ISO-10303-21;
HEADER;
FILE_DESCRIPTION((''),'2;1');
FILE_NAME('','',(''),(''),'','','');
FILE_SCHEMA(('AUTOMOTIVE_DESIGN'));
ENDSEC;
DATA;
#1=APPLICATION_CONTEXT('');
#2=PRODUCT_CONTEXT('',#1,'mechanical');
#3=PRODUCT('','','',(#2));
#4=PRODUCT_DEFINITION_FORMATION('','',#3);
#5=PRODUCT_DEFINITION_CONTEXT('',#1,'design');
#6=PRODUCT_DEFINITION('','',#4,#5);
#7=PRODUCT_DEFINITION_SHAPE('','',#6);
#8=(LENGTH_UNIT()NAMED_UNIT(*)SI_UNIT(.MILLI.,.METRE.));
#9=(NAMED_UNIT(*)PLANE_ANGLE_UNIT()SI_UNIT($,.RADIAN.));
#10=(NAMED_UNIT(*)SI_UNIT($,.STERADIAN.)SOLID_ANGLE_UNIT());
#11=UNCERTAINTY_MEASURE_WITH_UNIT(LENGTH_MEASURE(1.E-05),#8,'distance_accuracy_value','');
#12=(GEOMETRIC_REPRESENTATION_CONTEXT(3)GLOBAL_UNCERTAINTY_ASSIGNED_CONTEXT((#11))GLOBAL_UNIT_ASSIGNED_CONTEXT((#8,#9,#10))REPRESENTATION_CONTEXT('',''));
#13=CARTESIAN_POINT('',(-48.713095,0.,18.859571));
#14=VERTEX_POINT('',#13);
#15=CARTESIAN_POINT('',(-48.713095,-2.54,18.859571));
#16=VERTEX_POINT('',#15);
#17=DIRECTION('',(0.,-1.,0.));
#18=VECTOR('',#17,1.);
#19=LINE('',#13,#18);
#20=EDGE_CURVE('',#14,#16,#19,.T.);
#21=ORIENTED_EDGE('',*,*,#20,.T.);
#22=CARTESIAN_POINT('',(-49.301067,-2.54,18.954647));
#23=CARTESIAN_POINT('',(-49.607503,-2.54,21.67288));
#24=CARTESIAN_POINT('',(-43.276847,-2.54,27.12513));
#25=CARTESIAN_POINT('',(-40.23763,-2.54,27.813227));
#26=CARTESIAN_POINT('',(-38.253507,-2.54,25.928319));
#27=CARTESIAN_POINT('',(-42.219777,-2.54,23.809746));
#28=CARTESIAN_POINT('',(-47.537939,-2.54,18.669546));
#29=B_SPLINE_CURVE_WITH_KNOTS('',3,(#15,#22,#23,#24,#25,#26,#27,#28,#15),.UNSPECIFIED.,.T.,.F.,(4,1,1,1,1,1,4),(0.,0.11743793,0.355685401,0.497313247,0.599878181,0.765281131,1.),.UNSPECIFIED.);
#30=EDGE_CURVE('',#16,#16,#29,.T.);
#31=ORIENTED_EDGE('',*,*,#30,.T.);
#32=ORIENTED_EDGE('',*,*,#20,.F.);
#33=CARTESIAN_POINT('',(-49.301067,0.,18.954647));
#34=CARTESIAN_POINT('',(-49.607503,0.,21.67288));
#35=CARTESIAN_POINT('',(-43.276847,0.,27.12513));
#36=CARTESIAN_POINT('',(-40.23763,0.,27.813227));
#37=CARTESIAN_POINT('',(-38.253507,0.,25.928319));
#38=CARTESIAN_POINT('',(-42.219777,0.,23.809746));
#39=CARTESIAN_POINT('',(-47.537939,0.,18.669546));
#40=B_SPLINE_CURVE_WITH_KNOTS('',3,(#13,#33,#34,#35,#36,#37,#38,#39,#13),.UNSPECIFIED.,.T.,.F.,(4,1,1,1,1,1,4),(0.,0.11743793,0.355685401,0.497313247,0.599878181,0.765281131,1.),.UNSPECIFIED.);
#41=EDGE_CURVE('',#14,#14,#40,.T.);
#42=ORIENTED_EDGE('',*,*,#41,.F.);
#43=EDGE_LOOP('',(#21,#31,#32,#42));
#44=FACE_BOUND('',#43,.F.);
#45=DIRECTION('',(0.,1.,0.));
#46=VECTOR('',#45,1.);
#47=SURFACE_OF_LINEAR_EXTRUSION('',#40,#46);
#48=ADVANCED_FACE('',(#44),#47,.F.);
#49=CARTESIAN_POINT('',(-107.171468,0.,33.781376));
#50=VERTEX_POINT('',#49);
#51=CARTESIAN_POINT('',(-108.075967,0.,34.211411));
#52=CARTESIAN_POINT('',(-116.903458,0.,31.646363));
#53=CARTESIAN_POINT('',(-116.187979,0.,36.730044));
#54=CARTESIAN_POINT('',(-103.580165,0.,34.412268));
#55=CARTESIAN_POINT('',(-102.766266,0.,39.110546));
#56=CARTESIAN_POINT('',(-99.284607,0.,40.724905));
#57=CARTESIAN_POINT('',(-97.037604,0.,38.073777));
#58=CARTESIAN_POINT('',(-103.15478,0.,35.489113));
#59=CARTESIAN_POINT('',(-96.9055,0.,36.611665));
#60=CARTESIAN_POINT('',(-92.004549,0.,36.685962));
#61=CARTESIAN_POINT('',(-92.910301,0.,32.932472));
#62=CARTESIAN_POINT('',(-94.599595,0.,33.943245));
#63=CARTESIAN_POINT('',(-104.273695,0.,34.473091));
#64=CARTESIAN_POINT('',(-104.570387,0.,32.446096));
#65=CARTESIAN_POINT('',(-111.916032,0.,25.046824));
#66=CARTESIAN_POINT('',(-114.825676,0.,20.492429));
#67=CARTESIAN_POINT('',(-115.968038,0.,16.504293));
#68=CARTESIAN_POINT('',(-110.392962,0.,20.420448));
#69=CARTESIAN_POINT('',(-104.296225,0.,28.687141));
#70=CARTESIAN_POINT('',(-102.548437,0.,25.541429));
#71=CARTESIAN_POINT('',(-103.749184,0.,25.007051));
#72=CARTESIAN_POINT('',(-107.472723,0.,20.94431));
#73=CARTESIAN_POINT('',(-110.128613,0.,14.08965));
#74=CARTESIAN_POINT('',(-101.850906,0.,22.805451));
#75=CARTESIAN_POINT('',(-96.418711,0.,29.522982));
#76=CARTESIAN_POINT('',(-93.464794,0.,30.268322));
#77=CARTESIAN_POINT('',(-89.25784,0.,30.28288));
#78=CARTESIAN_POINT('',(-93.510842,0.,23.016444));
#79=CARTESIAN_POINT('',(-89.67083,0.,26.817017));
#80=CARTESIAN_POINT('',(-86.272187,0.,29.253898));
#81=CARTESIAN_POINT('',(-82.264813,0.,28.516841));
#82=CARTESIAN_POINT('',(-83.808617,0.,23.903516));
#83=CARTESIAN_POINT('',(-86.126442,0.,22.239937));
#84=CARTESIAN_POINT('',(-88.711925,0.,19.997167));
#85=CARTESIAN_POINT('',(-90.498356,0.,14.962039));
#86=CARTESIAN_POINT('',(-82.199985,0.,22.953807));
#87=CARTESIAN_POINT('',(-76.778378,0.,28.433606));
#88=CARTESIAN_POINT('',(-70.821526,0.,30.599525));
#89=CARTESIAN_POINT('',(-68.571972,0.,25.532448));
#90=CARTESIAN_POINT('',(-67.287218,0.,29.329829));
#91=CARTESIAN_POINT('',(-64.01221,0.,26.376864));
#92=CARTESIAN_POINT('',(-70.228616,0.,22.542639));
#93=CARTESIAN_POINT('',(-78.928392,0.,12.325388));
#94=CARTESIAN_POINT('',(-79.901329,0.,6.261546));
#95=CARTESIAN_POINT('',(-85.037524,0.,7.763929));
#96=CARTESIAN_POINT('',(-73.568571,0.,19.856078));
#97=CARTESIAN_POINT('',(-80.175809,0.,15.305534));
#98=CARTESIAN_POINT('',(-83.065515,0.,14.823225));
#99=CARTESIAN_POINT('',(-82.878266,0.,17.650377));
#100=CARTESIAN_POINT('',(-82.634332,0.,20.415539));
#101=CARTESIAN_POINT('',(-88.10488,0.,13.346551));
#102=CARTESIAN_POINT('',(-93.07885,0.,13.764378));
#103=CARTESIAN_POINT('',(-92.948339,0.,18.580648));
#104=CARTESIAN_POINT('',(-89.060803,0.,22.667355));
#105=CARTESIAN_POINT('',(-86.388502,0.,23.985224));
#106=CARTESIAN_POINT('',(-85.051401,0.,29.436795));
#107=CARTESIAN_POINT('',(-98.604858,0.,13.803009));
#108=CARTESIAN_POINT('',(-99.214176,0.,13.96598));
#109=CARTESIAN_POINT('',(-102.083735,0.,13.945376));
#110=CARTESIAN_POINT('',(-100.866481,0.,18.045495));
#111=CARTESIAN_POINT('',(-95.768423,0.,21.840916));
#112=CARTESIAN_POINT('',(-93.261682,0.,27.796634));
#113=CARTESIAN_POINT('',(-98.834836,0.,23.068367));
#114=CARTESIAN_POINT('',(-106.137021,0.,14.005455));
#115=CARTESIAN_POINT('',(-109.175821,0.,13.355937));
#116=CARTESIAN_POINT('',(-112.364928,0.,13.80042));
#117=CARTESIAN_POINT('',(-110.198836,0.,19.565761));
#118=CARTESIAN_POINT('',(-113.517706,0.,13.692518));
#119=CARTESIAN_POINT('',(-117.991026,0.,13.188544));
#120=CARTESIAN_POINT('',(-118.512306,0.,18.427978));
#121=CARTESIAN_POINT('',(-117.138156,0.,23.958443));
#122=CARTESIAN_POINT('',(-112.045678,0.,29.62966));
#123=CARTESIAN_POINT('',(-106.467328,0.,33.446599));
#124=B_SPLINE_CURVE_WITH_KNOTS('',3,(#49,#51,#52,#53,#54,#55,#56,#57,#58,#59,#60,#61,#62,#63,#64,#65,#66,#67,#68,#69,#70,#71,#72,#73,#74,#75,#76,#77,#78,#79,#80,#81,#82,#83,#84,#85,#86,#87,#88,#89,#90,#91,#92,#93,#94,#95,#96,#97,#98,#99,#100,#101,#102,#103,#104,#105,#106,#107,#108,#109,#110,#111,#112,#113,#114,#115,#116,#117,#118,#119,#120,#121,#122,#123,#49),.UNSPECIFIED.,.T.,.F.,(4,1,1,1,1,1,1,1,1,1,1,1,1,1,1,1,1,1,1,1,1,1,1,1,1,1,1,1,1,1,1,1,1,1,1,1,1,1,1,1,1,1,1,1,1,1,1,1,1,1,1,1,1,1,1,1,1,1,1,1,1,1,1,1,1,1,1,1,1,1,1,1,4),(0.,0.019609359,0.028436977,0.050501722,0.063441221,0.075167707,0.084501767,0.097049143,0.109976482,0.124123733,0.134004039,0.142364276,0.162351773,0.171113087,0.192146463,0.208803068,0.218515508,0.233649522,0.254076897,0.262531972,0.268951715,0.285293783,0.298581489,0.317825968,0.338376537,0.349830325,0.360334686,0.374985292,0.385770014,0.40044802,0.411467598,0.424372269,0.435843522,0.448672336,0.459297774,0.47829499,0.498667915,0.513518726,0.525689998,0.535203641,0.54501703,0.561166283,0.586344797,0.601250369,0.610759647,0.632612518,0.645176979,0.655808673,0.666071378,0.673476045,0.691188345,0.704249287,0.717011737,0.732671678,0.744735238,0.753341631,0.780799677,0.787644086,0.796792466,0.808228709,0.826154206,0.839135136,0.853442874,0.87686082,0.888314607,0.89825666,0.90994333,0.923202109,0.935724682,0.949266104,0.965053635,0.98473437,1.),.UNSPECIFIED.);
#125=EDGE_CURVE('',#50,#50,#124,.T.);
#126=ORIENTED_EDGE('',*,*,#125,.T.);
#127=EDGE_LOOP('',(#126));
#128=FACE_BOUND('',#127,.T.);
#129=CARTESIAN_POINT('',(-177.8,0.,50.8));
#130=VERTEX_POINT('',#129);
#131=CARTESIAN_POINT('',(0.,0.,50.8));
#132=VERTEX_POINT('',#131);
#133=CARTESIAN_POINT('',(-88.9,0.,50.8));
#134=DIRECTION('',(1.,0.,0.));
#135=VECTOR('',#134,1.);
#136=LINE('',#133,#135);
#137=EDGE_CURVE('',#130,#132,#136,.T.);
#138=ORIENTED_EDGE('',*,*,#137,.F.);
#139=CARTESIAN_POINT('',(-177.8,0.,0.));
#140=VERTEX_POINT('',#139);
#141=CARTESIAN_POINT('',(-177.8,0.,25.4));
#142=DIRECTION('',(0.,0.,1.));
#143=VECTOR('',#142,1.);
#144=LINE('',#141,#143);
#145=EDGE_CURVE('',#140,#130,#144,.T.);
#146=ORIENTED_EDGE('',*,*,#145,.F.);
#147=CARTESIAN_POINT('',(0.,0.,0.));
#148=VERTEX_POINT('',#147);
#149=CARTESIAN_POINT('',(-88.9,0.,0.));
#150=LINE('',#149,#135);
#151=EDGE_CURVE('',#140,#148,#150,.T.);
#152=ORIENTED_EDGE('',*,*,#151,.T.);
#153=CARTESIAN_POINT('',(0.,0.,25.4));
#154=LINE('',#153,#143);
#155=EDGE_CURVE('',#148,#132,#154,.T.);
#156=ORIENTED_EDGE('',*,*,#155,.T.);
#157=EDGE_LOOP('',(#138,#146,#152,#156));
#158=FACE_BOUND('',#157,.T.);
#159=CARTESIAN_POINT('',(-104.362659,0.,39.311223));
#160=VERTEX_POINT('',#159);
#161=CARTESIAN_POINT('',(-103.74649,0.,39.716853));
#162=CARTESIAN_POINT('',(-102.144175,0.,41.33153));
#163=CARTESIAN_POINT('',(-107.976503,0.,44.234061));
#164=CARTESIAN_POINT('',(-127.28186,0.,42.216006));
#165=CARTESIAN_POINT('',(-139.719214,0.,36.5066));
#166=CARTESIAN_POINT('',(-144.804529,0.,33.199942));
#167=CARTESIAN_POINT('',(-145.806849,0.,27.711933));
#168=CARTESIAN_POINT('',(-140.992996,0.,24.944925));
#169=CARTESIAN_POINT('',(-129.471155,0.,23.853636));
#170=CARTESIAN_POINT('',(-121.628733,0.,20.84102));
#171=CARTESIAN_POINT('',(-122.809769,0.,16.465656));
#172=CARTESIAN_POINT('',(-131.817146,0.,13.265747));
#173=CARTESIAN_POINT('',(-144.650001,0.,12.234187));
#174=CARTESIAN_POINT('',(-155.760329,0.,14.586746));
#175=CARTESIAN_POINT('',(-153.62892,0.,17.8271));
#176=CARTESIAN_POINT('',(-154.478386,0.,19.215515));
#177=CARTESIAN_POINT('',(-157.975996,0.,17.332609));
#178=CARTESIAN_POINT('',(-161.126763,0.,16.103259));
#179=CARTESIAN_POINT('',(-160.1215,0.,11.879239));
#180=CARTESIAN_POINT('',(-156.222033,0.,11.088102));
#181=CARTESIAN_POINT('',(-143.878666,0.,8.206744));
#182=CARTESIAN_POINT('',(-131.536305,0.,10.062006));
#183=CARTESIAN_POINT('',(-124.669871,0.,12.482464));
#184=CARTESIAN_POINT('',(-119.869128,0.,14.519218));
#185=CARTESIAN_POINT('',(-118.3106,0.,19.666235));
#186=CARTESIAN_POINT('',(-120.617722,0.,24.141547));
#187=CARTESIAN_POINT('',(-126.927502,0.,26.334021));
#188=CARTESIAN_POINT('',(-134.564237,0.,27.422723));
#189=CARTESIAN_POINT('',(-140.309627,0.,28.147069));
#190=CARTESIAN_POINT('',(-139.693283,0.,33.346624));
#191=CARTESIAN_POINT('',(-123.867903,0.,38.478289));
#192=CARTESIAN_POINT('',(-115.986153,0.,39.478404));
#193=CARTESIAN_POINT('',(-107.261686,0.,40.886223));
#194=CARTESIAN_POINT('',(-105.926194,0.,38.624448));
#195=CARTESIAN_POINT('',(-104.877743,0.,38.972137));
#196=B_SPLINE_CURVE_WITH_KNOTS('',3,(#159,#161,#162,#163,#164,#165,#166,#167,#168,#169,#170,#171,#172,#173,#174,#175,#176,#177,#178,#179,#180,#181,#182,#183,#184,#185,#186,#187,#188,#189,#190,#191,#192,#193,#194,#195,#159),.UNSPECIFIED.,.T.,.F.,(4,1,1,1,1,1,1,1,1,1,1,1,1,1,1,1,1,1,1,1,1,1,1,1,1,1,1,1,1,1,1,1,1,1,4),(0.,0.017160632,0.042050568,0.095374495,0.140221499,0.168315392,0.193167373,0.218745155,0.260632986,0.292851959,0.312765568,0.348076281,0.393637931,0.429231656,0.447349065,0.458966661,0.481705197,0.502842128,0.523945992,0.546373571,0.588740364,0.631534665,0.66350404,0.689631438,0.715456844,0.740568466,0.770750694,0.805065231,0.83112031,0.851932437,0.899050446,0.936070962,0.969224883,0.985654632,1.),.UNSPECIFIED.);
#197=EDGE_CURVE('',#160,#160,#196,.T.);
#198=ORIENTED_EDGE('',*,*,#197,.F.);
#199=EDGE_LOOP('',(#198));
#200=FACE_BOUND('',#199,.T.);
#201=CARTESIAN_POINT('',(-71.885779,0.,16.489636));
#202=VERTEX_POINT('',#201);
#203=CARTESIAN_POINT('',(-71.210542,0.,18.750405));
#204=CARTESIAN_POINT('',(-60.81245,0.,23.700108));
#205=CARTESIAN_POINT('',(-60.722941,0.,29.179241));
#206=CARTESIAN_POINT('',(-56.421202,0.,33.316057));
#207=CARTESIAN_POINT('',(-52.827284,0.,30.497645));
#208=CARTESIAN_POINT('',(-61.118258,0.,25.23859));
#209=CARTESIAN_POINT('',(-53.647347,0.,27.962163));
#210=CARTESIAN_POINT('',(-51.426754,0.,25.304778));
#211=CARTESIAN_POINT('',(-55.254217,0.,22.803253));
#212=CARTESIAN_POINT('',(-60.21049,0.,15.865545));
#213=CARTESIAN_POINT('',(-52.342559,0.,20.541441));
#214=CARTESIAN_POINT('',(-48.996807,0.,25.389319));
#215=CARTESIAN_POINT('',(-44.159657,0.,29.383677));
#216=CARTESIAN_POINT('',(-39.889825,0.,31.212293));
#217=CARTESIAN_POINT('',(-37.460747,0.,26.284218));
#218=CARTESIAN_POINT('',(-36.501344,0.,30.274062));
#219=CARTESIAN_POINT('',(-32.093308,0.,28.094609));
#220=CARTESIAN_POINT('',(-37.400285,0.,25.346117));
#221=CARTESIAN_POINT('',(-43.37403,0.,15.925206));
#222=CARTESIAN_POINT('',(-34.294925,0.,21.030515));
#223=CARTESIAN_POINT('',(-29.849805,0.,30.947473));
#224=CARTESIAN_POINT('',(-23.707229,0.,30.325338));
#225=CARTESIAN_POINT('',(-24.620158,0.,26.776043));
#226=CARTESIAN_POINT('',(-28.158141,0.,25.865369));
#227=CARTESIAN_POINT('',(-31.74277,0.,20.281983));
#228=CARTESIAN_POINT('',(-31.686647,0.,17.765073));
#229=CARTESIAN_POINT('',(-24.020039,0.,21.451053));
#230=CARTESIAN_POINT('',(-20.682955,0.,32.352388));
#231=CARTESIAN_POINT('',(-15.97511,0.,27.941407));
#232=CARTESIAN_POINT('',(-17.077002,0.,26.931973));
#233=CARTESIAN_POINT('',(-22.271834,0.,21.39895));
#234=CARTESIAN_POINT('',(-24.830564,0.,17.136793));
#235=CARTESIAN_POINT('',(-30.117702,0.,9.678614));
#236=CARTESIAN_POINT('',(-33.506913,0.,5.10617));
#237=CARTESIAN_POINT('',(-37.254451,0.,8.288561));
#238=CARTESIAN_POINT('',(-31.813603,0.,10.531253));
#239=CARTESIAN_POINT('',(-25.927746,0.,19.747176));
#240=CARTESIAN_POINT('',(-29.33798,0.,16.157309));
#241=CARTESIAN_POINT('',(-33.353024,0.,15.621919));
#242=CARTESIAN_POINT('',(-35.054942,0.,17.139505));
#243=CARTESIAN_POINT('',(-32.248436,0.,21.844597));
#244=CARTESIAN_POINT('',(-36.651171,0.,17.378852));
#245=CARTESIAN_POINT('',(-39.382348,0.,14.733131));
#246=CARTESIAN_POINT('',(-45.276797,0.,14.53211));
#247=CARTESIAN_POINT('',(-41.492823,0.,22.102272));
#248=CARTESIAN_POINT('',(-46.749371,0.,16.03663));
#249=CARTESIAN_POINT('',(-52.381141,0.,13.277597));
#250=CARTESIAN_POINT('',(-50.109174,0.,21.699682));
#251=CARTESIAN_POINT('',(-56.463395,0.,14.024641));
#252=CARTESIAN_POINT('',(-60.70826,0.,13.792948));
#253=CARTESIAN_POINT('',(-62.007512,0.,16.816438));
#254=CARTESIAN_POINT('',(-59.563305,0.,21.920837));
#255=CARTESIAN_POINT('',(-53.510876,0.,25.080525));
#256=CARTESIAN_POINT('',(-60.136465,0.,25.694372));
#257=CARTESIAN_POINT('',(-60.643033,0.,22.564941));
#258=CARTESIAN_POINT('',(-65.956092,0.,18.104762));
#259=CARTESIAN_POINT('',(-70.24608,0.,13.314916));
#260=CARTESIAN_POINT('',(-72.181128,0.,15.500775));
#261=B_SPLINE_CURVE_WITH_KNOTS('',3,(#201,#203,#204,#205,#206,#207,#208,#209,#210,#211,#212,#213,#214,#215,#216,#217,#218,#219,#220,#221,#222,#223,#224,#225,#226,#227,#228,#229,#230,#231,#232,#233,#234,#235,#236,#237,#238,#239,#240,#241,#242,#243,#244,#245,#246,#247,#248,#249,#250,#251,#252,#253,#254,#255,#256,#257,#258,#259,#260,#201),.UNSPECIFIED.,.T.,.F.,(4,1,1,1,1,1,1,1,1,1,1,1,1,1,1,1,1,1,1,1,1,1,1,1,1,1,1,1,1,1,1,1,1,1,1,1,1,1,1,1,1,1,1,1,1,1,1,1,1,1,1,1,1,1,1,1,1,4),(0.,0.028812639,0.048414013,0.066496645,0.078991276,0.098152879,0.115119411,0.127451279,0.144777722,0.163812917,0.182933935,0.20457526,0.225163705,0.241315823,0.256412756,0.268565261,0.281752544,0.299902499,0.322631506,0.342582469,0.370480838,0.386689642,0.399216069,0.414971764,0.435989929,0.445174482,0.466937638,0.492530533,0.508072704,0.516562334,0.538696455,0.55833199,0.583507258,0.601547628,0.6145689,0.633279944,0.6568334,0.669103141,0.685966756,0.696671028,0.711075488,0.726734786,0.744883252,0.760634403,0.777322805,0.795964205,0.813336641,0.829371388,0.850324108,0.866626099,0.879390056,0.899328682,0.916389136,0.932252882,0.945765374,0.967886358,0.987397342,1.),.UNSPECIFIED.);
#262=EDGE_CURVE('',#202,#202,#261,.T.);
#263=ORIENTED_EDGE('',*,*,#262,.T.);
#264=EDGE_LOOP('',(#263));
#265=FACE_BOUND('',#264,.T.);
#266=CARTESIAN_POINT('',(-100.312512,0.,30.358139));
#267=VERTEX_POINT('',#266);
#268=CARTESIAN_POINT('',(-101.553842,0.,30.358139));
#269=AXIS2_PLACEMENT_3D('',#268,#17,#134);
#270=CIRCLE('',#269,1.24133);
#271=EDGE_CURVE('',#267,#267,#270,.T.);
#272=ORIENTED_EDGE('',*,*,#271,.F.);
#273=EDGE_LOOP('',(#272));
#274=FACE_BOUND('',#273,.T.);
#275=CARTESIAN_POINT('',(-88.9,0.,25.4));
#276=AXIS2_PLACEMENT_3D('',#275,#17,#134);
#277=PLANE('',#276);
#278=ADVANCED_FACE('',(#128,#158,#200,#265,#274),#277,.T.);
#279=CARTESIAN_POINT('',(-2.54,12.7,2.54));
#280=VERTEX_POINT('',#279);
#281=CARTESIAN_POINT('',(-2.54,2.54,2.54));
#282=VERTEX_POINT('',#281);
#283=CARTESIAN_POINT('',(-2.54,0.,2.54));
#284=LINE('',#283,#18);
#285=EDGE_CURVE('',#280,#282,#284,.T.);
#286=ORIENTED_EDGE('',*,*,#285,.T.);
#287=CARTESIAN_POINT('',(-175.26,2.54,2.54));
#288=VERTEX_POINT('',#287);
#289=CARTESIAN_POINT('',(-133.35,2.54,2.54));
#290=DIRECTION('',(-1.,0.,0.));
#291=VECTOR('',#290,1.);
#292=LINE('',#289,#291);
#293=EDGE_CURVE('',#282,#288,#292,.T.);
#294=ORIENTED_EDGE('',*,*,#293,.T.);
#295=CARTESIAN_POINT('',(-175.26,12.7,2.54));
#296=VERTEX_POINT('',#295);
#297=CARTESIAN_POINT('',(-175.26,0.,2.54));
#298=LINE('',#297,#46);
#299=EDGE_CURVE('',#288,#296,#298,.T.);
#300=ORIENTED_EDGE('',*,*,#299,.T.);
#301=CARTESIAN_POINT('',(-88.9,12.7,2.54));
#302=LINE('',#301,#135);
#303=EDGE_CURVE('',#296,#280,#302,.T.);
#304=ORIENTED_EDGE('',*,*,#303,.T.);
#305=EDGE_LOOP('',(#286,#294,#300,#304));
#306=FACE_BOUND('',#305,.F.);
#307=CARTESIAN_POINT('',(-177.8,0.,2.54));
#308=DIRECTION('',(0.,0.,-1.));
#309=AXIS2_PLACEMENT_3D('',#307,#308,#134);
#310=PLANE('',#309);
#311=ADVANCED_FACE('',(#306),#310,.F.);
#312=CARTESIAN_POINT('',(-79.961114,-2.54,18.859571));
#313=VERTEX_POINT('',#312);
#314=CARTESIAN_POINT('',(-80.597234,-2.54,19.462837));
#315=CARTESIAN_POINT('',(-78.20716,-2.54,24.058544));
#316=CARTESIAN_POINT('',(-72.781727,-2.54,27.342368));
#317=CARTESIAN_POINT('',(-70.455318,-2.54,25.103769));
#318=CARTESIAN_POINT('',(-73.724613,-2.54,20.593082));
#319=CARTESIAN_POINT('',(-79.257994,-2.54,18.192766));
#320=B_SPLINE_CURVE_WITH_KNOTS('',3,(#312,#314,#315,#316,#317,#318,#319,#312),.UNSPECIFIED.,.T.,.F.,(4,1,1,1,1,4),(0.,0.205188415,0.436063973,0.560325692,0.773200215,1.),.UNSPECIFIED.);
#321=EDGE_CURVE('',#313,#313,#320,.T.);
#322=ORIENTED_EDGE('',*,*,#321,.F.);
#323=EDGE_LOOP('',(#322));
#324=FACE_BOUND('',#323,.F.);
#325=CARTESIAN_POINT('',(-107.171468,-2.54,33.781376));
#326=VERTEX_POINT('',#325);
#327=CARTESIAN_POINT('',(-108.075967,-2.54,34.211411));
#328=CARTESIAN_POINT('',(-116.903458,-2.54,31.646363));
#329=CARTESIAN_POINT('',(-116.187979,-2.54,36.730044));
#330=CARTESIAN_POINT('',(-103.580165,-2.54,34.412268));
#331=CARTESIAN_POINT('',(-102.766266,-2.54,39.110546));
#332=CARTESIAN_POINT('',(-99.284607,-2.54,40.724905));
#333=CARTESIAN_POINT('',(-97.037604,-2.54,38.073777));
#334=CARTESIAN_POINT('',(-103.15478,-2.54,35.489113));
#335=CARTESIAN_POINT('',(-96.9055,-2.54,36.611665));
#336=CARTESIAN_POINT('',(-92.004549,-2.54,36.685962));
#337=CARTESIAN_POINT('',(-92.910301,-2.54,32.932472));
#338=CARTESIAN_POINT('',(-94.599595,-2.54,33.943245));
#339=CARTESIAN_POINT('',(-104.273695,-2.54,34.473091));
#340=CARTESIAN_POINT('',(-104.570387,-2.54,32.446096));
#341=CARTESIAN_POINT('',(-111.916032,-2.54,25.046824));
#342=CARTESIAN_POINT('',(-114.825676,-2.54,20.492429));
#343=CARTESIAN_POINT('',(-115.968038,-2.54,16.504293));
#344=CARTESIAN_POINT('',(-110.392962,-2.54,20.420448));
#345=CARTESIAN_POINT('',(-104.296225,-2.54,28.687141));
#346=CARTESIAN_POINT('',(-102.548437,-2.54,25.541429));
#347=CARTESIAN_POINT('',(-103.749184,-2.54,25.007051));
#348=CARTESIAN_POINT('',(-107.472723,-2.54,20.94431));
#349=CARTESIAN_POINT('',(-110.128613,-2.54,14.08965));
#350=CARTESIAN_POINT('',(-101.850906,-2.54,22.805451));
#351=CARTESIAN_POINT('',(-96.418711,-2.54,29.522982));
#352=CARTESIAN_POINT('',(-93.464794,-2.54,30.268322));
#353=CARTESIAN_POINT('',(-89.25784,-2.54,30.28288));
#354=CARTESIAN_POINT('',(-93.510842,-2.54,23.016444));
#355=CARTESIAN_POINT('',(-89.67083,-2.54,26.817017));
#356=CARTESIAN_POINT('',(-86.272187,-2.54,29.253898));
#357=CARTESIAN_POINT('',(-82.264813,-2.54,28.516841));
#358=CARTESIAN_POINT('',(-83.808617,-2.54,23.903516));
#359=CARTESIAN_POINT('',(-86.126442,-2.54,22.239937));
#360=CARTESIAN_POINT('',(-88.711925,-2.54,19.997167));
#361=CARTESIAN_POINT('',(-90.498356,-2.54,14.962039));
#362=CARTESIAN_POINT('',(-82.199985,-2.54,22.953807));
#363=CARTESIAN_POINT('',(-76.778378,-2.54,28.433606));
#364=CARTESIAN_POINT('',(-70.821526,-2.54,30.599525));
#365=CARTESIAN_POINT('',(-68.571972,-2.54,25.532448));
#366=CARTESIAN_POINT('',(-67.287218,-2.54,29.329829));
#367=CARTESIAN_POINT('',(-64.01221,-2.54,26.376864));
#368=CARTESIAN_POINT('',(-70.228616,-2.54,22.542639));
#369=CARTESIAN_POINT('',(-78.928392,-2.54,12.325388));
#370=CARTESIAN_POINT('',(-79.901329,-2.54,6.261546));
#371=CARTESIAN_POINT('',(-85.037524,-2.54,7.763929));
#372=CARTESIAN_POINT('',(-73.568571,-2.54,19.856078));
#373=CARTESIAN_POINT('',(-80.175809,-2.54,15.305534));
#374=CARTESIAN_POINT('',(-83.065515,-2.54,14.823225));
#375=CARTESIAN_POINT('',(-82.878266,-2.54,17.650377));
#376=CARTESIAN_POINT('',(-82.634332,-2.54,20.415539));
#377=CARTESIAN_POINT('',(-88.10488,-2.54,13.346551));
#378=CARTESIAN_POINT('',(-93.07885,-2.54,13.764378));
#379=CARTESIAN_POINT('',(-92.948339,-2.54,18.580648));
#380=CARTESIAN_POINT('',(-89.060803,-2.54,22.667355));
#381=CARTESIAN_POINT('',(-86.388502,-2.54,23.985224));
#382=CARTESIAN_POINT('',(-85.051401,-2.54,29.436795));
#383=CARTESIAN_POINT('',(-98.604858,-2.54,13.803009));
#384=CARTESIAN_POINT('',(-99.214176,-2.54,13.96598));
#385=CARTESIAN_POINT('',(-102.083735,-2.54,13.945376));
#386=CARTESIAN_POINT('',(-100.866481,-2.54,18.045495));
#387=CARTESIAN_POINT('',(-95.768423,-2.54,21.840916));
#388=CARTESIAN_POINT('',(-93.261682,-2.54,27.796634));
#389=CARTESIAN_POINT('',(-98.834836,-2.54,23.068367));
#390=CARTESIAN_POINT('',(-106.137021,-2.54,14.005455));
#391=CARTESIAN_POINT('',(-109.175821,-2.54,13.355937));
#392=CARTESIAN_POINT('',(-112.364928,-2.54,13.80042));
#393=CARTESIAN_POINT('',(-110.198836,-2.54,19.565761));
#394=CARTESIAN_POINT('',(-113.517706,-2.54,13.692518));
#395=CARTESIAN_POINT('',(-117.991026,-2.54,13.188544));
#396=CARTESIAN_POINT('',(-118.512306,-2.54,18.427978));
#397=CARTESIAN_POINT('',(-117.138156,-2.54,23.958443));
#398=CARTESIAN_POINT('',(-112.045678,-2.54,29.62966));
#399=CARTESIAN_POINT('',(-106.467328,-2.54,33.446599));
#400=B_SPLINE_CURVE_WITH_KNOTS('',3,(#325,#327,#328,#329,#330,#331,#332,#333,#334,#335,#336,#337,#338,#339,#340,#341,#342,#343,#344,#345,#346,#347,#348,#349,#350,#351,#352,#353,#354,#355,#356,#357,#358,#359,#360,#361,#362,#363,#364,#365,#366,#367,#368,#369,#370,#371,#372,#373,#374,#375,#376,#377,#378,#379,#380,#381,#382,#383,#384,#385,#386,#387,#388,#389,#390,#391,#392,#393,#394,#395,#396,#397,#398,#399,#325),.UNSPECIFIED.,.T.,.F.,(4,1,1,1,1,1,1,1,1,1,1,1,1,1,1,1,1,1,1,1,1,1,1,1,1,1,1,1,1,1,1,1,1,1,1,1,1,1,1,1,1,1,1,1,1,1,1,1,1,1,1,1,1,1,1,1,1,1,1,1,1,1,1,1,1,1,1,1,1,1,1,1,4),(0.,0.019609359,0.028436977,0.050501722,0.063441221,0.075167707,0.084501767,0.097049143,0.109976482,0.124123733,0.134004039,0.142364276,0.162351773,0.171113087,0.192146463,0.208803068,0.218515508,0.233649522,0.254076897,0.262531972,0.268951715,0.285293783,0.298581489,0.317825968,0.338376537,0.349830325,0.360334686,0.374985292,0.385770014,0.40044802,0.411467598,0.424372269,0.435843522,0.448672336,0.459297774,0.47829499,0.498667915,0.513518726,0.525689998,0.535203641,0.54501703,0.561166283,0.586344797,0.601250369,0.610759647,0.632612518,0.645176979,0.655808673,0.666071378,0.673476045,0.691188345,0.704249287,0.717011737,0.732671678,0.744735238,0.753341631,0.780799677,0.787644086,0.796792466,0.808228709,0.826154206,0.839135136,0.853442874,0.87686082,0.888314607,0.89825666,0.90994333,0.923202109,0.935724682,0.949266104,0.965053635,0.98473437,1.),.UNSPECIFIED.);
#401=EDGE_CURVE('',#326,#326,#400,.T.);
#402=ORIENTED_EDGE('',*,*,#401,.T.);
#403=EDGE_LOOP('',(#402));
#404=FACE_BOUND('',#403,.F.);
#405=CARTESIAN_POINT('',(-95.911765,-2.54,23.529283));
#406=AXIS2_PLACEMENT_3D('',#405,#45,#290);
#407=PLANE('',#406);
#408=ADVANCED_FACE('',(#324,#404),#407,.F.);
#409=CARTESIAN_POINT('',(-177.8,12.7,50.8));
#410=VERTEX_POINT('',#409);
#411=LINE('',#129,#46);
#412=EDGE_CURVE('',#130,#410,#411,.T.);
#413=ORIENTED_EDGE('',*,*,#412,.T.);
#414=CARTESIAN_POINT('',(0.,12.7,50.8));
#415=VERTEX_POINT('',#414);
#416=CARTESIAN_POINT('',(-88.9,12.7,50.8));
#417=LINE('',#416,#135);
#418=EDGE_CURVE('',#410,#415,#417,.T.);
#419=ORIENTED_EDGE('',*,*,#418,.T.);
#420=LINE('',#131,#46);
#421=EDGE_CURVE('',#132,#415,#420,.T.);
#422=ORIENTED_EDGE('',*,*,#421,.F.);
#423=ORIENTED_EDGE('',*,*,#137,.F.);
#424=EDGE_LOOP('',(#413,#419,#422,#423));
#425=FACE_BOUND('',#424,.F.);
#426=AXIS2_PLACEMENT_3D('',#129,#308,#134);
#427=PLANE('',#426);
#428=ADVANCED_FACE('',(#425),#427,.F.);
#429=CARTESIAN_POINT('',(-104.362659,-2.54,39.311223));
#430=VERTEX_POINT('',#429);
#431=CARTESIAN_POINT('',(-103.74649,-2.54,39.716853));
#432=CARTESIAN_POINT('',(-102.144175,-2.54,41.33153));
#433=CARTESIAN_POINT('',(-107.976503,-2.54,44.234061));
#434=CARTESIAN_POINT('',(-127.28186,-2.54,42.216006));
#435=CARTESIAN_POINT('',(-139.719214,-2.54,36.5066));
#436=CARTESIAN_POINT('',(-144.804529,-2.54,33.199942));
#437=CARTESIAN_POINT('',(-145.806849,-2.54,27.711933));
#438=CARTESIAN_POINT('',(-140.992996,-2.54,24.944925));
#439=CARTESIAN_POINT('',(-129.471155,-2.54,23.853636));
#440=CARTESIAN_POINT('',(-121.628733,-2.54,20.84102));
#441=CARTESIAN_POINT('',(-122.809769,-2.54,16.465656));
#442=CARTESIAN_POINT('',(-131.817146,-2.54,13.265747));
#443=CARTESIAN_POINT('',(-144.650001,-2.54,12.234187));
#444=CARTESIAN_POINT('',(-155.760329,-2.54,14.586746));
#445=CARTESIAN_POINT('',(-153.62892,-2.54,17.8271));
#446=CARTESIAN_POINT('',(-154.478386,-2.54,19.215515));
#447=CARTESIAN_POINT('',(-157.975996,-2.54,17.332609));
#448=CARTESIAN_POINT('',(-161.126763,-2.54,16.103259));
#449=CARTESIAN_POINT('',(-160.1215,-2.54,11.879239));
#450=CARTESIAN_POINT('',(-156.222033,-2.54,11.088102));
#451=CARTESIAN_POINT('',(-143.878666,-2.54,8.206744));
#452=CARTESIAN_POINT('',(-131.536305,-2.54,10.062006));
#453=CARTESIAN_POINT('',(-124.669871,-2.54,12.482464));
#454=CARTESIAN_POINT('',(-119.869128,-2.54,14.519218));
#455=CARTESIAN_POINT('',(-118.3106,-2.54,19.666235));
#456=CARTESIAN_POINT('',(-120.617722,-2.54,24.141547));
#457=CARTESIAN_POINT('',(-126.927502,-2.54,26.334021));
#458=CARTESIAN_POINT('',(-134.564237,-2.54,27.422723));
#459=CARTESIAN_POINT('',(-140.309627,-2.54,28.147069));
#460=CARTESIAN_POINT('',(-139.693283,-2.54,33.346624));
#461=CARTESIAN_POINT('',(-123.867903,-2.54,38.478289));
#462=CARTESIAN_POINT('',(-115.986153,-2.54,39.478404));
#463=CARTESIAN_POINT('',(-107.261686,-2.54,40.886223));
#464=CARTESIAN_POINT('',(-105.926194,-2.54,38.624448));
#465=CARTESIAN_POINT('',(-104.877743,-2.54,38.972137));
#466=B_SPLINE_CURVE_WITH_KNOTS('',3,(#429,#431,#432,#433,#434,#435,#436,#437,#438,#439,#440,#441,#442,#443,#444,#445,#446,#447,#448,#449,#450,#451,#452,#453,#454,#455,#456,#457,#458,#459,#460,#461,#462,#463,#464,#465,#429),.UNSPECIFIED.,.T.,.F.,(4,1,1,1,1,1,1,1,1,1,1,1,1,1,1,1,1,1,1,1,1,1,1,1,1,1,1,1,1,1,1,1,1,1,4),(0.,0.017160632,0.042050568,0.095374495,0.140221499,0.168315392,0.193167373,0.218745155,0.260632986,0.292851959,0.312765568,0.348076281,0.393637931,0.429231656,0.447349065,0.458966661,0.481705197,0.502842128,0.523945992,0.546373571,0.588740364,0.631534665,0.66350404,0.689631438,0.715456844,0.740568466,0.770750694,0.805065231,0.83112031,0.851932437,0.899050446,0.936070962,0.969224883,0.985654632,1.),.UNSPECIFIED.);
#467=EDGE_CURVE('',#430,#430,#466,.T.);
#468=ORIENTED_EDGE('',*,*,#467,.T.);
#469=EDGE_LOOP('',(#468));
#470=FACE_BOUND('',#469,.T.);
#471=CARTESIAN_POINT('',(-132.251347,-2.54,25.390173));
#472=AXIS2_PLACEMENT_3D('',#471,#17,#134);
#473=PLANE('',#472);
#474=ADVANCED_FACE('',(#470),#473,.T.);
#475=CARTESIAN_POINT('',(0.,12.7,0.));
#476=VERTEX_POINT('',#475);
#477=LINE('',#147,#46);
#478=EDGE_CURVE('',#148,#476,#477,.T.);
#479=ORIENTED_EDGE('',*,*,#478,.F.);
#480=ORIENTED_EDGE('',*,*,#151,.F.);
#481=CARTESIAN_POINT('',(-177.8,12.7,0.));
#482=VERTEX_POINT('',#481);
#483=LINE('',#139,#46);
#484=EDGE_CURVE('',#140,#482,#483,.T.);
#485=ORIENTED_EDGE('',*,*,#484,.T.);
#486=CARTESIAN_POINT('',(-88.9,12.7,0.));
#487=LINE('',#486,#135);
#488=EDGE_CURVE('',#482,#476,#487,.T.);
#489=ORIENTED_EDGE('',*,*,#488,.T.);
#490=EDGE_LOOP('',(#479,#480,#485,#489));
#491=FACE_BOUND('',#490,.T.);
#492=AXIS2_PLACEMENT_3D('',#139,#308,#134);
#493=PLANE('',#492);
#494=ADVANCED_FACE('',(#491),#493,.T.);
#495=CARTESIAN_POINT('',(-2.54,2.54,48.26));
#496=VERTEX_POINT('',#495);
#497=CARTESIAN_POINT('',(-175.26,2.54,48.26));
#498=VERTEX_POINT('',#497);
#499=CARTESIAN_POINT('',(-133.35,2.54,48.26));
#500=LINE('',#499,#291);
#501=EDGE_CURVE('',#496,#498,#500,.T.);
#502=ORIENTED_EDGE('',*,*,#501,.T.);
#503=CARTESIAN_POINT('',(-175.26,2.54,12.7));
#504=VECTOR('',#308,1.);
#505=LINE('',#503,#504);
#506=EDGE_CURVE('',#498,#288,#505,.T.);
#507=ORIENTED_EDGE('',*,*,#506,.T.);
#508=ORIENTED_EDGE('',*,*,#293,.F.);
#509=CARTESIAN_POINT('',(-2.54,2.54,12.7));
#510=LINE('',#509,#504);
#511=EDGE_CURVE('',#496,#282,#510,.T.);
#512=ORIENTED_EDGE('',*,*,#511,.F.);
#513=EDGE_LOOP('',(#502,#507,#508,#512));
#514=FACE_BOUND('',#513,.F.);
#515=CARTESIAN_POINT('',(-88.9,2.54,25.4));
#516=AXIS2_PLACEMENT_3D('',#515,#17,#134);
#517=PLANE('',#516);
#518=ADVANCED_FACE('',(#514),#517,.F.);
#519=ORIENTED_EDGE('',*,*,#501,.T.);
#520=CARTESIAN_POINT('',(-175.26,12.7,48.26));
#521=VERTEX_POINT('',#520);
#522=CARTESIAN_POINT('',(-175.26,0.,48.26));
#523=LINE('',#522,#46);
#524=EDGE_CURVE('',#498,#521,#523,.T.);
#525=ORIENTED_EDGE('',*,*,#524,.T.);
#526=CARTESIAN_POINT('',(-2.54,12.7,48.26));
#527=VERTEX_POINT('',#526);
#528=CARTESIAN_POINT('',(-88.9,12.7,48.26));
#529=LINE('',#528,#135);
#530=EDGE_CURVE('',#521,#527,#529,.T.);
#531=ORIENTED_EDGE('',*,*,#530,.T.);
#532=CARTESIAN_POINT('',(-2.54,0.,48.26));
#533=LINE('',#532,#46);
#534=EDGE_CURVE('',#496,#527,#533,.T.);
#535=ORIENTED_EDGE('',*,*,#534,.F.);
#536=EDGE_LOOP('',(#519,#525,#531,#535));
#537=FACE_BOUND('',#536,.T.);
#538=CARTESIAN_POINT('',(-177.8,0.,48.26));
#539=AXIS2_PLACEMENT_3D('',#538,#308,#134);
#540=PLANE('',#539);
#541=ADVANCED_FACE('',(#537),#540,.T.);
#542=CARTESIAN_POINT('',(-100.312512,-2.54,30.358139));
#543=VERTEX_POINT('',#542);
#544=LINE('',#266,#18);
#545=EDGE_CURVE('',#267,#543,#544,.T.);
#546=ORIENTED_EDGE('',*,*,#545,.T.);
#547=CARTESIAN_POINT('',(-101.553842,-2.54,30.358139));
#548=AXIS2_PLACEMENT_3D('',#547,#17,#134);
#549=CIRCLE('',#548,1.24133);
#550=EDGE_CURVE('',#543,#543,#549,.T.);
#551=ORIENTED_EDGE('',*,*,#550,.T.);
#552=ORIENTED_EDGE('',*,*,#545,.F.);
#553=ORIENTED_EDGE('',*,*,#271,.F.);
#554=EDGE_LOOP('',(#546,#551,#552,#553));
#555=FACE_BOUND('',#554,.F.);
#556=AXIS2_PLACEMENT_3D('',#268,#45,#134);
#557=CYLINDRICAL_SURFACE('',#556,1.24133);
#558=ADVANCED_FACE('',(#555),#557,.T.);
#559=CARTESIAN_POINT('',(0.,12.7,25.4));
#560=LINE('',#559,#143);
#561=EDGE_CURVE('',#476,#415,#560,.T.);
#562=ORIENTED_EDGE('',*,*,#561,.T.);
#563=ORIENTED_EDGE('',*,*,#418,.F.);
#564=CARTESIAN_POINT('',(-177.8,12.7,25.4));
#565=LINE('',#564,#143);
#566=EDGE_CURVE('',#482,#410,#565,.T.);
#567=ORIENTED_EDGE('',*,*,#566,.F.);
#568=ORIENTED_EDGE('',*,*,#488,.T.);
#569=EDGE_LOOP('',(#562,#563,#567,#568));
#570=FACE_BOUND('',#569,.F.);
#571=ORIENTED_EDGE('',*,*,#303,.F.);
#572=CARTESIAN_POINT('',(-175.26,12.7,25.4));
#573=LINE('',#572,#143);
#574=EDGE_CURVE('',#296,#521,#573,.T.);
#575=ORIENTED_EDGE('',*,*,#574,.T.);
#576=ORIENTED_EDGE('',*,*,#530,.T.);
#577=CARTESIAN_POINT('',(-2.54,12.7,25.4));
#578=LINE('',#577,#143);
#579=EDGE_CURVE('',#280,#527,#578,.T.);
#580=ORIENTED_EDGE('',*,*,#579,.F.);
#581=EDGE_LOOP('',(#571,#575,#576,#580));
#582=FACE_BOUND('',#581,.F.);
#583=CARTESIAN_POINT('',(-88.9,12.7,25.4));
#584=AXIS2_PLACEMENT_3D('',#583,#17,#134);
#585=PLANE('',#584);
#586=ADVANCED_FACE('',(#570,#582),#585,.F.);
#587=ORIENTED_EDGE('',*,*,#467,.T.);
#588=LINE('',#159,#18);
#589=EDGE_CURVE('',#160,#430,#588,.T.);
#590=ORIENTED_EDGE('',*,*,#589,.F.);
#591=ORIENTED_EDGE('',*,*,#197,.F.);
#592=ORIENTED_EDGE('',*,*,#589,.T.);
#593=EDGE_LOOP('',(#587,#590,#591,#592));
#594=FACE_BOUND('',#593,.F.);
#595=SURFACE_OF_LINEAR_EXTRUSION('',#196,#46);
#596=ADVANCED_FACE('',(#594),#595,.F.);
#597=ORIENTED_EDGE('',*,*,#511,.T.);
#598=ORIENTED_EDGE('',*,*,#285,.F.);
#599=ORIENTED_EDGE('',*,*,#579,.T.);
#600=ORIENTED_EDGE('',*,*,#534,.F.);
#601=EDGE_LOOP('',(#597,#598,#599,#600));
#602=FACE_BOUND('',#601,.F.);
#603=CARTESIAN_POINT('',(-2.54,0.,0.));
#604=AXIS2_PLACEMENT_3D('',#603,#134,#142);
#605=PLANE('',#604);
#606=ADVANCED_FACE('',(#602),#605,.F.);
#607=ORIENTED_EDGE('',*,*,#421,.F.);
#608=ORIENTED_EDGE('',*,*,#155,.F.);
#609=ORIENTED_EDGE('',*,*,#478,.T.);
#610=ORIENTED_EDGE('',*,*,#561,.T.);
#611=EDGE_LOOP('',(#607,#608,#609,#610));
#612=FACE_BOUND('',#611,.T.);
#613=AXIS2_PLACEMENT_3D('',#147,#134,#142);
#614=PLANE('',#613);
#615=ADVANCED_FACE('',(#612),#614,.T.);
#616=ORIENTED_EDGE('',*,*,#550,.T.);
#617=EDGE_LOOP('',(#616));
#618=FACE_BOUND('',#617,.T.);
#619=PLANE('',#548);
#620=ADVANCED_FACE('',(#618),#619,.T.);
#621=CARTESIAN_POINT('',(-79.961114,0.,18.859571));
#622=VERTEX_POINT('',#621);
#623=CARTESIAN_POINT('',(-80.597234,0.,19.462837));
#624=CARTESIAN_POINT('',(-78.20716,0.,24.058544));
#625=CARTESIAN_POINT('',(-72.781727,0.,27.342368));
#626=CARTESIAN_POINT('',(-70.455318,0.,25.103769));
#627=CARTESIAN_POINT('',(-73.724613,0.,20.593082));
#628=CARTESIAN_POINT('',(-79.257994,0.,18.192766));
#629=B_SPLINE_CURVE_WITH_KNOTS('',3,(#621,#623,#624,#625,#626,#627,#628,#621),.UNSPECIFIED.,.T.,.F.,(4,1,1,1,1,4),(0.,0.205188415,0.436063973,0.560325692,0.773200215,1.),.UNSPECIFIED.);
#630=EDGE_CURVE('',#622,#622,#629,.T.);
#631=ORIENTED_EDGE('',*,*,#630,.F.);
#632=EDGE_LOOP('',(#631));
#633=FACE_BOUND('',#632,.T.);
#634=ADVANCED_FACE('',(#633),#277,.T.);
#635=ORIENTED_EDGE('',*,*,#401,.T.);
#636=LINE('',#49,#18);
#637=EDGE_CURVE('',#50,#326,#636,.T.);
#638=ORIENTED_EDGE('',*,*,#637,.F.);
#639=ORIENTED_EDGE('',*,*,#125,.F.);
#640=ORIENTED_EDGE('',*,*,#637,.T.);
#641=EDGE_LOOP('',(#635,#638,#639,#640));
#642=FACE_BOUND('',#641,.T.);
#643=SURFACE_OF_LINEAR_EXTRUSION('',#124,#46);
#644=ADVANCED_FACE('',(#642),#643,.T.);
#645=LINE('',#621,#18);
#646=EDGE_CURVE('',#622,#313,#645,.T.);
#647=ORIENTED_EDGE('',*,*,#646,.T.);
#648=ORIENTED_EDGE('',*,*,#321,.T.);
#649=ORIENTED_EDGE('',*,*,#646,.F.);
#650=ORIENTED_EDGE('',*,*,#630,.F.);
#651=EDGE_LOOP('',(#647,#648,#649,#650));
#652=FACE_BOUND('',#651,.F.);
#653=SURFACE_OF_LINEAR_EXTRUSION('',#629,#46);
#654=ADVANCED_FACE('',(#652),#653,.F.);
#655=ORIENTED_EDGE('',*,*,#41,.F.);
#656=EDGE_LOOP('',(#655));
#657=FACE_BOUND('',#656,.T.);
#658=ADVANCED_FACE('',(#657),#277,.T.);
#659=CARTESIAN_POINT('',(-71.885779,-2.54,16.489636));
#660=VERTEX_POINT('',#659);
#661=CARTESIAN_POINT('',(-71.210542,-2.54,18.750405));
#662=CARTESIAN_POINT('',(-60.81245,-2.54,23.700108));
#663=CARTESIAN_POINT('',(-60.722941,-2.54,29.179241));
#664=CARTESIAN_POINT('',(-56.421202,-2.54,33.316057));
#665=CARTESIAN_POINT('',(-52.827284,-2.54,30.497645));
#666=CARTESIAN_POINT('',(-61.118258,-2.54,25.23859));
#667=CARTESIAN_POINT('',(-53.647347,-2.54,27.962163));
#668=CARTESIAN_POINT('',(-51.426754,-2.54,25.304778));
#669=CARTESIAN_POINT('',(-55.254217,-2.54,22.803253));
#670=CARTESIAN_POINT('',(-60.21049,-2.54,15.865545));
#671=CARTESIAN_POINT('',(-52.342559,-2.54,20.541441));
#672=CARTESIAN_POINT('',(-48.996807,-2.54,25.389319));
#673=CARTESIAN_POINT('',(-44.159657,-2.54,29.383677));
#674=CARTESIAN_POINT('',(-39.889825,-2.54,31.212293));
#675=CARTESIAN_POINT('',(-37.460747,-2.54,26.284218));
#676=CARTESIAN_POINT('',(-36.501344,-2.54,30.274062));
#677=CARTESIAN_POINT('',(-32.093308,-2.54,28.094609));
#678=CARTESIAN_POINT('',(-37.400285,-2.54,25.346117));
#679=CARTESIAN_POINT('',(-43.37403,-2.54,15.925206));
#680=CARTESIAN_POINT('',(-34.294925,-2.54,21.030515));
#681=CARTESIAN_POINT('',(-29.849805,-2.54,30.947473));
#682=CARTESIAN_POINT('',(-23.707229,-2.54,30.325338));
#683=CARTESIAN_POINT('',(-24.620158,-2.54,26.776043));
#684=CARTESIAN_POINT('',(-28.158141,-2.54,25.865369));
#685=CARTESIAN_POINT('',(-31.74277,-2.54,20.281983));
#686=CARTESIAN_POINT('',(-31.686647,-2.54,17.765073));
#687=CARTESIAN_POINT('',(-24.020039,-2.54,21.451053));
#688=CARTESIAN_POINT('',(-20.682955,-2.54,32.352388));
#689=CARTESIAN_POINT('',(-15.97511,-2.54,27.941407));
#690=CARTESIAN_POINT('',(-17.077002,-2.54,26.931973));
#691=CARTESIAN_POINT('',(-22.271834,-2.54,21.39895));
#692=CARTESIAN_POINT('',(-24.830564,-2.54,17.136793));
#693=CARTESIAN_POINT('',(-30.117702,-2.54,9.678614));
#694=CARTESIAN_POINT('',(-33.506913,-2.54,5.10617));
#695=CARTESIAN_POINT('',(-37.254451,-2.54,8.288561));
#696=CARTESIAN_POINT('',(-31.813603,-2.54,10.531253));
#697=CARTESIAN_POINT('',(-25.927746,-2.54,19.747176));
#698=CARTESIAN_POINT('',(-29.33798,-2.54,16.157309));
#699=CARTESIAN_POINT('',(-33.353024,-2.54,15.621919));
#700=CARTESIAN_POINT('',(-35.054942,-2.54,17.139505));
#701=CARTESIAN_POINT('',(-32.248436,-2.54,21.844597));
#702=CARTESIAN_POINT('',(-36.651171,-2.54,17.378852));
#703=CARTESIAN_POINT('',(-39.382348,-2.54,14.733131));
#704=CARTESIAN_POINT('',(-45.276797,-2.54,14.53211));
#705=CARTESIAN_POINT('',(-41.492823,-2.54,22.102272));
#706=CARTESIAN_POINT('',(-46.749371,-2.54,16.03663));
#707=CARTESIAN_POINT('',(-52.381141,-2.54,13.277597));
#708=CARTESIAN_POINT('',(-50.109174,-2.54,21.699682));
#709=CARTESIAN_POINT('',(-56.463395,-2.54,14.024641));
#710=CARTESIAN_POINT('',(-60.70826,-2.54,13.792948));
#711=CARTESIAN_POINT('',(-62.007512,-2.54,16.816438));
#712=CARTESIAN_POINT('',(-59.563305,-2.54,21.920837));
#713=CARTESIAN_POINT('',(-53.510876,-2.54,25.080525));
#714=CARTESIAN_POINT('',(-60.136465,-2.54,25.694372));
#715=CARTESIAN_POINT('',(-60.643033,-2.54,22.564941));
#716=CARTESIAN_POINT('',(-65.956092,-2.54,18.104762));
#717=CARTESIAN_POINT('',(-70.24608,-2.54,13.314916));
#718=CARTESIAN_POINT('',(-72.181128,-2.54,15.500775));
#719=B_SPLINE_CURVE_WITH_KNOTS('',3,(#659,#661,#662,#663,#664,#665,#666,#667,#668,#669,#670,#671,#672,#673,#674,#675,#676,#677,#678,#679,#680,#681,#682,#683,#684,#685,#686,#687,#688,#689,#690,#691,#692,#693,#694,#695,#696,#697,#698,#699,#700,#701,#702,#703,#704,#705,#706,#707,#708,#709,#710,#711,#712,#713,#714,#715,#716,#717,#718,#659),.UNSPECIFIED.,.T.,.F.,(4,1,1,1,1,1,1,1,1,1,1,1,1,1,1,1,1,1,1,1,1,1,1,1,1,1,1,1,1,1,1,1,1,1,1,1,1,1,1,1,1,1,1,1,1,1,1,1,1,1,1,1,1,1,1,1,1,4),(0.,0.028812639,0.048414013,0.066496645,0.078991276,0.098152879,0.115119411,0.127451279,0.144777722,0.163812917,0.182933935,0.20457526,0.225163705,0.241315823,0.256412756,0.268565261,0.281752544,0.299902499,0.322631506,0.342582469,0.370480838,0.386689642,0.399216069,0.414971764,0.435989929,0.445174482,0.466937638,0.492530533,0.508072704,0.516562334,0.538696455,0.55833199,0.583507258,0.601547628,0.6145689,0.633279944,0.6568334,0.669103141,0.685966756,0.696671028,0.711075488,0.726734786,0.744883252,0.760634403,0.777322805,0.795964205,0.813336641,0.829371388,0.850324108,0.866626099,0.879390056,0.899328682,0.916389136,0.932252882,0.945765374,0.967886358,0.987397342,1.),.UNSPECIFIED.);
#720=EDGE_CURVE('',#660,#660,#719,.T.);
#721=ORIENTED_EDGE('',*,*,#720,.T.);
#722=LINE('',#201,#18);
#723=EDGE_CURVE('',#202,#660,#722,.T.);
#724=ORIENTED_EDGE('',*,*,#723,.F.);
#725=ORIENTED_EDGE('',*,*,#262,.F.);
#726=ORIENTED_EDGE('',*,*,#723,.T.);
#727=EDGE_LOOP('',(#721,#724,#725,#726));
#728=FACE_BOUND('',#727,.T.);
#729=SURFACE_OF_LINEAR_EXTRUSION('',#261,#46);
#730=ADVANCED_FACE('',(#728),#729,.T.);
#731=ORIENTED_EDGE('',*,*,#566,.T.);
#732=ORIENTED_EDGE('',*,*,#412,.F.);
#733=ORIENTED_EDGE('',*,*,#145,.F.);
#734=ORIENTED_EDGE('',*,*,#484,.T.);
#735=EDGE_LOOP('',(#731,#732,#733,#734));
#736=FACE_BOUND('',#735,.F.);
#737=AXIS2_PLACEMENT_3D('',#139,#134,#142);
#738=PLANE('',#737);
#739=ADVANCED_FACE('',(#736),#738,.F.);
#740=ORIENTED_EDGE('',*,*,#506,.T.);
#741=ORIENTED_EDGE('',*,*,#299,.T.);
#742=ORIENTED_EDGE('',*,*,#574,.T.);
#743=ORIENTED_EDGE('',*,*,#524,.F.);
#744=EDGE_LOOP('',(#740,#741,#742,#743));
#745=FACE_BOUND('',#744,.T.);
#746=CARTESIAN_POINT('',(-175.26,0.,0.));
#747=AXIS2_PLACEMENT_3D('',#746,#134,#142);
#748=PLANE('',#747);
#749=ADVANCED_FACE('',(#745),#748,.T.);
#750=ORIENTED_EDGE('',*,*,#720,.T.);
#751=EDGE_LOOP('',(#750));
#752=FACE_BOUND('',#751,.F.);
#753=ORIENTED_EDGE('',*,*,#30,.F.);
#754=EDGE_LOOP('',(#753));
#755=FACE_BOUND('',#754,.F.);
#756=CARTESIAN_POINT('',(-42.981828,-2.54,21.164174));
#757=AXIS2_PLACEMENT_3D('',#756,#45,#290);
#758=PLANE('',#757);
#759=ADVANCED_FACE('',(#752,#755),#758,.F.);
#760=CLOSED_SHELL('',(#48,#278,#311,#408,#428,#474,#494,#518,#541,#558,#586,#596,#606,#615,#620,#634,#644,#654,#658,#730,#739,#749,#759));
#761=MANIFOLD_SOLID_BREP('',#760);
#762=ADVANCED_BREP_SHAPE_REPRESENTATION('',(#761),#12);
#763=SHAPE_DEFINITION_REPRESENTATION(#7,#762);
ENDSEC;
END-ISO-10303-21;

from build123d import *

# Parameters (mm, degrees)
F1_W     = 177.8
F1_H     = 50.8
F2_DEPTH = 12.7
F3_T     = -2.54
F0_R     = 1.2413300558
F4_DEPTH = 2.54


with BuildPart() as f2:
    # F1 (on Front) → F2 (new body)
    with BuildSketch(Plane.XZ):
        with Locations((-88.9, 25.4)):
            Rectangle(F1_W, F1_H)
    extrude(amount=-F2_DEPTH)

    # F3
    f3_openings = [f2.faces().sort_by_distance(p)[0] for p in [
        (-88.9, 12.7, 25.4),
    ]]
    offset(amount=F3_T, openings=f3_openings)

    # F0 (on Front) → F4 (join)
    with BuildSketch(Plane.XZ):
        with BuildLine():
            add(Edge.make_bspline(
                [(-104.3626591563, 39.3112227321), (-103.7464901324, 39.7168534696), (-102.1441748093, 41.3315299913), (-107.9765028263, 44.2340611148), (-127.2818595136, 42.2160057549), (-139.7192136137, 36.5066004827), (-144.8045294703, 33.1999416806), (-145.8068486745, 27.7119328448), (-140.9929955038, 24.944924972), (-129.4711551531, 23.8536356186), (-121.6287334048, 20.8410199958), (-122.8097692008, 16.4656558472), (-131.8171462781, 13.2657467953), (-144.6500010629, 12.2341874259), (-155.7603288756, 14.5867461516), (-153.6289203084, 17.8270999649), (-154.4783863539, 19.215515211), (-157.9759955095, 17.3326092607), (-161.1267632531, 16.1032587025), (-160.1215000899, 11.8792390024), (-156.2220330164, 11.0881015403), (-143.8786655043, 8.2067439366), (-131.536304938, 10.0620059008), (-124.6698706344, 12.482464089), (-119.8691279813, 14.5192178493), (-118.31060007, 19.6662353054), (-120.6177220982, 24.141546957), (-126.9275022893, 26.3340211868), (-134.564236949, 27.4227227725), (-140.3096267602, 28.14706889), (-139.6932832256, 33.3466244693), (-123.8679028515, 38.4782887729), (-115.9861533764, 39.4784040019), (-107.261685971, 40.886222851), (-105.92619372, 38.6244477757), (-104.8777434282, 38.9721371809), (-104.3626591563, 39.3112227321)],
                knots=[0, 0, 0, 0, 0.0171606316, 0.0420505679, 0.0953744946, 0.1402214985, 0.1683153916, 0.1931673735, 0.2187451545, 0.2606329857, 0.2928519595, 0.3127655675, 0.3480762812, 0.3936379312, 0.4292316559, 0.4473490645, 0.458966661, 0.481705197, 0.502842128, 0.5239459925, 0.5463735712, 0.5887403643, 0.6315346651, 0.6635040396, 0.6896314381, 0.7154568438, 0.7405684662, 0.7707506943, 0.8050652312, 0.8311203103, 0.8519324373, 0.899050446, 0.9360709618, 0.9692248828, 0.985654632, 1, 1, 1, 1], degree=3))
        make_face()
        with BuildLine():
            add(Edge.make_bspline(
                [(-107.1714684367, 33.781375736), (-108.0759665708, 34.2114106275), (-116.9034581131, 31.6463628818), (-116.1879786537, 36.7300440936), (-103.5801645612, 34.4122681368), (-102.7662659737, 39.1105459238), (-99.2846073384, 40.724904815), (-97.0376040766, 38.0737770326), (-103.1547800894, 35.4891130282), (-96.9055004938, 36.6116653895), (-92.0045486316, 36.6859619502), (-92.9103005474, 32.9324721379), (-94.5995950275, 33.9432445726), (-104.2736950267, 34.4730907211), (-104.5703866711, 32.4460956503), (-111.9160322788, 25.0468244591), (-114.8256760159, 20.4924289781), (-115.9680378699, 16.5042928682), (-110.3929619387, 20.4204478467), (-104.2962252419, 28.6871414323), (-102.5484371755, 25.5414285907), (-103.7491840528, 25.007051437), (-107.4727226073, 20.9443095212), (-110.1286126777, 14.0896504564), (-101.8509064005, 22.8054505775), (-96.4187111382, 29.5229822501), (-93.4647937461, 30.2683219283), (-89.2578403101, 30.2828796563), (-93.510842446, 23.0164441308), (-89.6708302626, 26.8170167804), (-86.2721873199, 29.2538981307), (-82.2648125771, 28.5168412918), (-83.8086168939, 23.9035160996), (-86.1264424442, 22.2399367183), (-88.71192535, 19.9971666802), (-90.4983557146, 14.9620386201), (-82.1999852748, 22.9538072335), (-76.7783775856, 28.4336057629), (-70.821526044, 30.5995250418), (-68.5719716119, 25.5324480606), (-67.2872175811, 29.3298290772), (-64.0122100212, 26.3768635124), (-70.228615982, 22.5426389445), (-78.9283920713, 12.3253882028), (-79.9013294185, 6.2615464124), (-85.0375243269, 7.763928666), (-73.5685706285, 19.8560775327), (-80.1758092903, 15.3055338167), (-83.0655149775, 14.8232247784), (-82.8782663149, 17.6503768455), (-82.6343323038, 20.4155385127), (-88.1048803826, 13.3465511967), (-93.0788503917, 13.7643781627), (-92.9483394205, 18.5806482767), (-89.0608027112, 22.6673545559), (-86.3885021297, 23.9852236654), (-85.0514010065, 29.4367945227), (-98.604857657, 13.8030093969), (-99.2141760808, 13.9659801533), (-102.0837354138, 13.9453759636), (-100.8664808015, 18.0454946505), (-95.7684232878, 21.840915773), (-93.2616821569, 27.7966340636), (-98.8348362072, 23.0683670913), (-106.137020859, 14.005454883), (-109.1758213268, 13.3559366256), (-112.3649277602, 13.8004196637), (-110.1988360947, 19.5657613929), (-113.5177063309, 13.6925179389), (-117.9910259651, 13.1885438883), (-118.512306069, 18.4279775234), (-117.1381563709, 23.9584432762), (-112.0456782971, 29.6296602451), (-106.4673284661, 33.4465991959), (-107.1714684367, 33.781375736)],
                knots=[0, 0, 0, 0, 0.0196093592, 0.0284369772, 0.0505017225, 0.063441221, 0.0751677071, 0.0845017669, 0.0970491425, 0.1099764822, 0.1241237325, 0.1340040389, 0.1423642756, 0.1623517728, 0.1711130869, 0.1921464629, 0.2088030677, 0.2185155077, 0.2336495218, 0.2540768966, 0.2625319716, 0.268951715, 0.2852937829, 0.2985814891, 0.3178259682, 0.3383765372, 0.3498303255, 0.3603346856, 0.3749852923, 0.3857700141, 0.4004480199, 0.4114675985, 0.4243722694, 0.4358435223, 0.4486723363, 0.4592977745, 0.4782949896, 0.4986679148, 0.5135187261, 0.5256899976, 0.5352036408, 0.54501703, 0.5611662827, 0.5863447971, 0.601250369, 0.6107596468, 0.632612518, 0.6451769791, 0.655808673, 0.6660713775, 0.6734760449, 0.6911883448, 0.7042492866, 0.7170117372, 0.7326716779, 0.7447352377, 0.7533416311, 0.7807996771, 0.787644086, 0.7967924664, 0.8082287092, 0.8261542058, 0.8391351362, 0.8534428742, 0.8768608204, 0.8883146074, 0.8982566604, 0.9099433295, 0.923202109, 0.9357246816, 0.9492661038, 0.9650536351, 0.9847343703, 1, 1, 1, 1], degree=3))
        make_face()
        with BuildLine():
            add(Edge.make_bspline(
                [(-79.9611136317, 18.859570846), (-80.5972341313, 19.4628371611), (-78.207160256, 24.0585435322), (-72.7817269102, 27.3423679841), (-70.455317797, 25.1037694355), (-73.7246130314, 20.5930821086), (-79.2579940503, 18.1927658), (-79.9611136317, 18.859570846)],
                knots=[0, 0, 0, 0, 0.2051884148, 0.4360639735, 0.5603256916, 0.7732002153, 1, 1, 1, 1], degree=3))
        make_face(mode=Mode.SUBTRACT)
        with Locations((-101.5538424253, 30.3581394255)):
            Circle(F0_R)
        with BuildLine():
            add(Edge.make_bspline(
                [(-71.8857795, 16.489636153), (-71.2105423118, 18.750404932), (-60.8124499585, 23.7001083857), (-60.7229412283, 29.1792405996), (-56.4212019482, 33.3160571384), (-52.8272837453, 30.4976450644), (-61.1182581878, 25.2385901982), (-53.6473467985, 27.9621627373), (-51.4267541217, 25.3047779038), (-55.2542172502, 22.803252545), (-60.210489919, 15.865544608), (-52.3425594341, 20.5414405892), (-48.9968071323, 25.3893194453), (-44.1596566164, 29.3836767927), (-39.8898251644, 31.2122933276), (-37.4607470962, 26.2842176195), (-36.5013439217, 30.2740617848), (-32.0933081958, 28.0946094985), (-37.4002852503, 25.3461170526), (-43.3740304328, 15.9252063614), (-34.2949247229, 21.0305154527), (-29.8498049576, 30.9474726389), (-23.7072285882, 30.325337836), (-24.6201579526, 26.7760428567), (-28.1581412165, 25.8653687813), (-31.7427700609, 20.2819831212), (-31.6866467667, 17.7650733739), (-24.0200387973, 21.4510527275), (-20.6829552958, 32.3523884334), (-15.9751104428, 27.9414066807), (-17.0770015109, 26.9319731914), (-22.2718338876, 21.398950418), (-24.8305635989, 17.1367926243), (-30.1177024267, 9.6786138441), (-33.506912619, 5.106169706), (-37.2544510803, 8.2885613766), (-31.8136026287, 10.5312530889), (-25.9277462628, 19.7471757988), (-29.3379804757, 16.1573090983), (-33.3530235333, 15.6219194539), (-35.054941846, 17.1395052649), (-32.2484356336, 21.8445969185), (-36.6511709407, 17.3788520885), (-39.3823481451, 14.733130798), (-45.2767969683, 14.5321103176), (-41.4928225748, 22.1022721089), (-46.7493711992, 16.036629954), (-52.3811411267, 13.2775967239), (-50.1091737502, 21.6996819788), (-56.46339486, 14.0246414), (-60.7082595771, 13.792948096), (-62.0075118597, 16.8164380115), (-59.5633053457, 21.9208365822), (-53.5108759906, 25.0805246857), (-60.1364650618, 25.6943720883), (-60.6430327099, 22.5649413835), (-65.9560917383, 18.1047616278), (-70.2460796038, 13.3149159188), (-72.1811284863, 15.5007750849), (-71.8857795, 16.489636153)],
                knots=[0, 0, 0, 0, 0.0288126386, 0.0484140127, 0.0664966451, 0.0789912756, 0.0981528788, 0.1151194113, 0.1274512795, 0.1447777219, 0.1638129171, 0.1829339346, 0.2045752596, 0.2251637052, 0.2413158227, 0.2564127564, 0.2685652608, 0.2817525437, 0.2999024988, 0.3226315063, 0.3425824692, 0.3704808381, 0.3866896417, 0.3992160693, 0.4149717644, 0.4359899285, 0.4451744816, 0.4669376381, 0.492530533, 0.5080727041, 0.5165623338, 0.5386964546, 0.5583319897, 0.5835072584, 0.6015476278, 0.6145689002, 0.6332799436, 0.6568334001, 0.669103141, 0.685966756, 0.6966710277, 0.7110754883, 0.7267347861, 0.7448832518, 0.7606344025, 0.7773228045, 0.7959642053, 0.8133366409, 0.8293713882, 0.8503241077, 0.8666260992, 0.8793900557, 0.899328682, 0.916389136, 0.9322528821, 0.9457653735, 0.9678863584, 0.9873973416, 1, 1, 1, 1], degree=3))
        make_face()
        with BuildLine():
            add(Edge.make_bspline(
                [(-48.7130954862, 18.859570846), (-49.3010668646, 18.954646885), (-49.6075025395, 21.6728797333), (-43.2768466141, 27.125129773), (-40.2376297385, 27.8132269069), (-38.2535065629, 25.9283193275), (-42.2197768257, 23.8097459414), (-47.53793873, 18.6695458656), (-48.7130954862, 18.859570846)],
                knots=[0, 0, 0, 0, 0.1174379302, 0.3556854008, 0.4973132475, 0.5998781813, 0.7652811307, 1, 1, 1, 1], degree=3))
        make_face(mode=Mode.SUBTRACT)
    extrude(amount=F4_DEPTH)


solid = f2.part
